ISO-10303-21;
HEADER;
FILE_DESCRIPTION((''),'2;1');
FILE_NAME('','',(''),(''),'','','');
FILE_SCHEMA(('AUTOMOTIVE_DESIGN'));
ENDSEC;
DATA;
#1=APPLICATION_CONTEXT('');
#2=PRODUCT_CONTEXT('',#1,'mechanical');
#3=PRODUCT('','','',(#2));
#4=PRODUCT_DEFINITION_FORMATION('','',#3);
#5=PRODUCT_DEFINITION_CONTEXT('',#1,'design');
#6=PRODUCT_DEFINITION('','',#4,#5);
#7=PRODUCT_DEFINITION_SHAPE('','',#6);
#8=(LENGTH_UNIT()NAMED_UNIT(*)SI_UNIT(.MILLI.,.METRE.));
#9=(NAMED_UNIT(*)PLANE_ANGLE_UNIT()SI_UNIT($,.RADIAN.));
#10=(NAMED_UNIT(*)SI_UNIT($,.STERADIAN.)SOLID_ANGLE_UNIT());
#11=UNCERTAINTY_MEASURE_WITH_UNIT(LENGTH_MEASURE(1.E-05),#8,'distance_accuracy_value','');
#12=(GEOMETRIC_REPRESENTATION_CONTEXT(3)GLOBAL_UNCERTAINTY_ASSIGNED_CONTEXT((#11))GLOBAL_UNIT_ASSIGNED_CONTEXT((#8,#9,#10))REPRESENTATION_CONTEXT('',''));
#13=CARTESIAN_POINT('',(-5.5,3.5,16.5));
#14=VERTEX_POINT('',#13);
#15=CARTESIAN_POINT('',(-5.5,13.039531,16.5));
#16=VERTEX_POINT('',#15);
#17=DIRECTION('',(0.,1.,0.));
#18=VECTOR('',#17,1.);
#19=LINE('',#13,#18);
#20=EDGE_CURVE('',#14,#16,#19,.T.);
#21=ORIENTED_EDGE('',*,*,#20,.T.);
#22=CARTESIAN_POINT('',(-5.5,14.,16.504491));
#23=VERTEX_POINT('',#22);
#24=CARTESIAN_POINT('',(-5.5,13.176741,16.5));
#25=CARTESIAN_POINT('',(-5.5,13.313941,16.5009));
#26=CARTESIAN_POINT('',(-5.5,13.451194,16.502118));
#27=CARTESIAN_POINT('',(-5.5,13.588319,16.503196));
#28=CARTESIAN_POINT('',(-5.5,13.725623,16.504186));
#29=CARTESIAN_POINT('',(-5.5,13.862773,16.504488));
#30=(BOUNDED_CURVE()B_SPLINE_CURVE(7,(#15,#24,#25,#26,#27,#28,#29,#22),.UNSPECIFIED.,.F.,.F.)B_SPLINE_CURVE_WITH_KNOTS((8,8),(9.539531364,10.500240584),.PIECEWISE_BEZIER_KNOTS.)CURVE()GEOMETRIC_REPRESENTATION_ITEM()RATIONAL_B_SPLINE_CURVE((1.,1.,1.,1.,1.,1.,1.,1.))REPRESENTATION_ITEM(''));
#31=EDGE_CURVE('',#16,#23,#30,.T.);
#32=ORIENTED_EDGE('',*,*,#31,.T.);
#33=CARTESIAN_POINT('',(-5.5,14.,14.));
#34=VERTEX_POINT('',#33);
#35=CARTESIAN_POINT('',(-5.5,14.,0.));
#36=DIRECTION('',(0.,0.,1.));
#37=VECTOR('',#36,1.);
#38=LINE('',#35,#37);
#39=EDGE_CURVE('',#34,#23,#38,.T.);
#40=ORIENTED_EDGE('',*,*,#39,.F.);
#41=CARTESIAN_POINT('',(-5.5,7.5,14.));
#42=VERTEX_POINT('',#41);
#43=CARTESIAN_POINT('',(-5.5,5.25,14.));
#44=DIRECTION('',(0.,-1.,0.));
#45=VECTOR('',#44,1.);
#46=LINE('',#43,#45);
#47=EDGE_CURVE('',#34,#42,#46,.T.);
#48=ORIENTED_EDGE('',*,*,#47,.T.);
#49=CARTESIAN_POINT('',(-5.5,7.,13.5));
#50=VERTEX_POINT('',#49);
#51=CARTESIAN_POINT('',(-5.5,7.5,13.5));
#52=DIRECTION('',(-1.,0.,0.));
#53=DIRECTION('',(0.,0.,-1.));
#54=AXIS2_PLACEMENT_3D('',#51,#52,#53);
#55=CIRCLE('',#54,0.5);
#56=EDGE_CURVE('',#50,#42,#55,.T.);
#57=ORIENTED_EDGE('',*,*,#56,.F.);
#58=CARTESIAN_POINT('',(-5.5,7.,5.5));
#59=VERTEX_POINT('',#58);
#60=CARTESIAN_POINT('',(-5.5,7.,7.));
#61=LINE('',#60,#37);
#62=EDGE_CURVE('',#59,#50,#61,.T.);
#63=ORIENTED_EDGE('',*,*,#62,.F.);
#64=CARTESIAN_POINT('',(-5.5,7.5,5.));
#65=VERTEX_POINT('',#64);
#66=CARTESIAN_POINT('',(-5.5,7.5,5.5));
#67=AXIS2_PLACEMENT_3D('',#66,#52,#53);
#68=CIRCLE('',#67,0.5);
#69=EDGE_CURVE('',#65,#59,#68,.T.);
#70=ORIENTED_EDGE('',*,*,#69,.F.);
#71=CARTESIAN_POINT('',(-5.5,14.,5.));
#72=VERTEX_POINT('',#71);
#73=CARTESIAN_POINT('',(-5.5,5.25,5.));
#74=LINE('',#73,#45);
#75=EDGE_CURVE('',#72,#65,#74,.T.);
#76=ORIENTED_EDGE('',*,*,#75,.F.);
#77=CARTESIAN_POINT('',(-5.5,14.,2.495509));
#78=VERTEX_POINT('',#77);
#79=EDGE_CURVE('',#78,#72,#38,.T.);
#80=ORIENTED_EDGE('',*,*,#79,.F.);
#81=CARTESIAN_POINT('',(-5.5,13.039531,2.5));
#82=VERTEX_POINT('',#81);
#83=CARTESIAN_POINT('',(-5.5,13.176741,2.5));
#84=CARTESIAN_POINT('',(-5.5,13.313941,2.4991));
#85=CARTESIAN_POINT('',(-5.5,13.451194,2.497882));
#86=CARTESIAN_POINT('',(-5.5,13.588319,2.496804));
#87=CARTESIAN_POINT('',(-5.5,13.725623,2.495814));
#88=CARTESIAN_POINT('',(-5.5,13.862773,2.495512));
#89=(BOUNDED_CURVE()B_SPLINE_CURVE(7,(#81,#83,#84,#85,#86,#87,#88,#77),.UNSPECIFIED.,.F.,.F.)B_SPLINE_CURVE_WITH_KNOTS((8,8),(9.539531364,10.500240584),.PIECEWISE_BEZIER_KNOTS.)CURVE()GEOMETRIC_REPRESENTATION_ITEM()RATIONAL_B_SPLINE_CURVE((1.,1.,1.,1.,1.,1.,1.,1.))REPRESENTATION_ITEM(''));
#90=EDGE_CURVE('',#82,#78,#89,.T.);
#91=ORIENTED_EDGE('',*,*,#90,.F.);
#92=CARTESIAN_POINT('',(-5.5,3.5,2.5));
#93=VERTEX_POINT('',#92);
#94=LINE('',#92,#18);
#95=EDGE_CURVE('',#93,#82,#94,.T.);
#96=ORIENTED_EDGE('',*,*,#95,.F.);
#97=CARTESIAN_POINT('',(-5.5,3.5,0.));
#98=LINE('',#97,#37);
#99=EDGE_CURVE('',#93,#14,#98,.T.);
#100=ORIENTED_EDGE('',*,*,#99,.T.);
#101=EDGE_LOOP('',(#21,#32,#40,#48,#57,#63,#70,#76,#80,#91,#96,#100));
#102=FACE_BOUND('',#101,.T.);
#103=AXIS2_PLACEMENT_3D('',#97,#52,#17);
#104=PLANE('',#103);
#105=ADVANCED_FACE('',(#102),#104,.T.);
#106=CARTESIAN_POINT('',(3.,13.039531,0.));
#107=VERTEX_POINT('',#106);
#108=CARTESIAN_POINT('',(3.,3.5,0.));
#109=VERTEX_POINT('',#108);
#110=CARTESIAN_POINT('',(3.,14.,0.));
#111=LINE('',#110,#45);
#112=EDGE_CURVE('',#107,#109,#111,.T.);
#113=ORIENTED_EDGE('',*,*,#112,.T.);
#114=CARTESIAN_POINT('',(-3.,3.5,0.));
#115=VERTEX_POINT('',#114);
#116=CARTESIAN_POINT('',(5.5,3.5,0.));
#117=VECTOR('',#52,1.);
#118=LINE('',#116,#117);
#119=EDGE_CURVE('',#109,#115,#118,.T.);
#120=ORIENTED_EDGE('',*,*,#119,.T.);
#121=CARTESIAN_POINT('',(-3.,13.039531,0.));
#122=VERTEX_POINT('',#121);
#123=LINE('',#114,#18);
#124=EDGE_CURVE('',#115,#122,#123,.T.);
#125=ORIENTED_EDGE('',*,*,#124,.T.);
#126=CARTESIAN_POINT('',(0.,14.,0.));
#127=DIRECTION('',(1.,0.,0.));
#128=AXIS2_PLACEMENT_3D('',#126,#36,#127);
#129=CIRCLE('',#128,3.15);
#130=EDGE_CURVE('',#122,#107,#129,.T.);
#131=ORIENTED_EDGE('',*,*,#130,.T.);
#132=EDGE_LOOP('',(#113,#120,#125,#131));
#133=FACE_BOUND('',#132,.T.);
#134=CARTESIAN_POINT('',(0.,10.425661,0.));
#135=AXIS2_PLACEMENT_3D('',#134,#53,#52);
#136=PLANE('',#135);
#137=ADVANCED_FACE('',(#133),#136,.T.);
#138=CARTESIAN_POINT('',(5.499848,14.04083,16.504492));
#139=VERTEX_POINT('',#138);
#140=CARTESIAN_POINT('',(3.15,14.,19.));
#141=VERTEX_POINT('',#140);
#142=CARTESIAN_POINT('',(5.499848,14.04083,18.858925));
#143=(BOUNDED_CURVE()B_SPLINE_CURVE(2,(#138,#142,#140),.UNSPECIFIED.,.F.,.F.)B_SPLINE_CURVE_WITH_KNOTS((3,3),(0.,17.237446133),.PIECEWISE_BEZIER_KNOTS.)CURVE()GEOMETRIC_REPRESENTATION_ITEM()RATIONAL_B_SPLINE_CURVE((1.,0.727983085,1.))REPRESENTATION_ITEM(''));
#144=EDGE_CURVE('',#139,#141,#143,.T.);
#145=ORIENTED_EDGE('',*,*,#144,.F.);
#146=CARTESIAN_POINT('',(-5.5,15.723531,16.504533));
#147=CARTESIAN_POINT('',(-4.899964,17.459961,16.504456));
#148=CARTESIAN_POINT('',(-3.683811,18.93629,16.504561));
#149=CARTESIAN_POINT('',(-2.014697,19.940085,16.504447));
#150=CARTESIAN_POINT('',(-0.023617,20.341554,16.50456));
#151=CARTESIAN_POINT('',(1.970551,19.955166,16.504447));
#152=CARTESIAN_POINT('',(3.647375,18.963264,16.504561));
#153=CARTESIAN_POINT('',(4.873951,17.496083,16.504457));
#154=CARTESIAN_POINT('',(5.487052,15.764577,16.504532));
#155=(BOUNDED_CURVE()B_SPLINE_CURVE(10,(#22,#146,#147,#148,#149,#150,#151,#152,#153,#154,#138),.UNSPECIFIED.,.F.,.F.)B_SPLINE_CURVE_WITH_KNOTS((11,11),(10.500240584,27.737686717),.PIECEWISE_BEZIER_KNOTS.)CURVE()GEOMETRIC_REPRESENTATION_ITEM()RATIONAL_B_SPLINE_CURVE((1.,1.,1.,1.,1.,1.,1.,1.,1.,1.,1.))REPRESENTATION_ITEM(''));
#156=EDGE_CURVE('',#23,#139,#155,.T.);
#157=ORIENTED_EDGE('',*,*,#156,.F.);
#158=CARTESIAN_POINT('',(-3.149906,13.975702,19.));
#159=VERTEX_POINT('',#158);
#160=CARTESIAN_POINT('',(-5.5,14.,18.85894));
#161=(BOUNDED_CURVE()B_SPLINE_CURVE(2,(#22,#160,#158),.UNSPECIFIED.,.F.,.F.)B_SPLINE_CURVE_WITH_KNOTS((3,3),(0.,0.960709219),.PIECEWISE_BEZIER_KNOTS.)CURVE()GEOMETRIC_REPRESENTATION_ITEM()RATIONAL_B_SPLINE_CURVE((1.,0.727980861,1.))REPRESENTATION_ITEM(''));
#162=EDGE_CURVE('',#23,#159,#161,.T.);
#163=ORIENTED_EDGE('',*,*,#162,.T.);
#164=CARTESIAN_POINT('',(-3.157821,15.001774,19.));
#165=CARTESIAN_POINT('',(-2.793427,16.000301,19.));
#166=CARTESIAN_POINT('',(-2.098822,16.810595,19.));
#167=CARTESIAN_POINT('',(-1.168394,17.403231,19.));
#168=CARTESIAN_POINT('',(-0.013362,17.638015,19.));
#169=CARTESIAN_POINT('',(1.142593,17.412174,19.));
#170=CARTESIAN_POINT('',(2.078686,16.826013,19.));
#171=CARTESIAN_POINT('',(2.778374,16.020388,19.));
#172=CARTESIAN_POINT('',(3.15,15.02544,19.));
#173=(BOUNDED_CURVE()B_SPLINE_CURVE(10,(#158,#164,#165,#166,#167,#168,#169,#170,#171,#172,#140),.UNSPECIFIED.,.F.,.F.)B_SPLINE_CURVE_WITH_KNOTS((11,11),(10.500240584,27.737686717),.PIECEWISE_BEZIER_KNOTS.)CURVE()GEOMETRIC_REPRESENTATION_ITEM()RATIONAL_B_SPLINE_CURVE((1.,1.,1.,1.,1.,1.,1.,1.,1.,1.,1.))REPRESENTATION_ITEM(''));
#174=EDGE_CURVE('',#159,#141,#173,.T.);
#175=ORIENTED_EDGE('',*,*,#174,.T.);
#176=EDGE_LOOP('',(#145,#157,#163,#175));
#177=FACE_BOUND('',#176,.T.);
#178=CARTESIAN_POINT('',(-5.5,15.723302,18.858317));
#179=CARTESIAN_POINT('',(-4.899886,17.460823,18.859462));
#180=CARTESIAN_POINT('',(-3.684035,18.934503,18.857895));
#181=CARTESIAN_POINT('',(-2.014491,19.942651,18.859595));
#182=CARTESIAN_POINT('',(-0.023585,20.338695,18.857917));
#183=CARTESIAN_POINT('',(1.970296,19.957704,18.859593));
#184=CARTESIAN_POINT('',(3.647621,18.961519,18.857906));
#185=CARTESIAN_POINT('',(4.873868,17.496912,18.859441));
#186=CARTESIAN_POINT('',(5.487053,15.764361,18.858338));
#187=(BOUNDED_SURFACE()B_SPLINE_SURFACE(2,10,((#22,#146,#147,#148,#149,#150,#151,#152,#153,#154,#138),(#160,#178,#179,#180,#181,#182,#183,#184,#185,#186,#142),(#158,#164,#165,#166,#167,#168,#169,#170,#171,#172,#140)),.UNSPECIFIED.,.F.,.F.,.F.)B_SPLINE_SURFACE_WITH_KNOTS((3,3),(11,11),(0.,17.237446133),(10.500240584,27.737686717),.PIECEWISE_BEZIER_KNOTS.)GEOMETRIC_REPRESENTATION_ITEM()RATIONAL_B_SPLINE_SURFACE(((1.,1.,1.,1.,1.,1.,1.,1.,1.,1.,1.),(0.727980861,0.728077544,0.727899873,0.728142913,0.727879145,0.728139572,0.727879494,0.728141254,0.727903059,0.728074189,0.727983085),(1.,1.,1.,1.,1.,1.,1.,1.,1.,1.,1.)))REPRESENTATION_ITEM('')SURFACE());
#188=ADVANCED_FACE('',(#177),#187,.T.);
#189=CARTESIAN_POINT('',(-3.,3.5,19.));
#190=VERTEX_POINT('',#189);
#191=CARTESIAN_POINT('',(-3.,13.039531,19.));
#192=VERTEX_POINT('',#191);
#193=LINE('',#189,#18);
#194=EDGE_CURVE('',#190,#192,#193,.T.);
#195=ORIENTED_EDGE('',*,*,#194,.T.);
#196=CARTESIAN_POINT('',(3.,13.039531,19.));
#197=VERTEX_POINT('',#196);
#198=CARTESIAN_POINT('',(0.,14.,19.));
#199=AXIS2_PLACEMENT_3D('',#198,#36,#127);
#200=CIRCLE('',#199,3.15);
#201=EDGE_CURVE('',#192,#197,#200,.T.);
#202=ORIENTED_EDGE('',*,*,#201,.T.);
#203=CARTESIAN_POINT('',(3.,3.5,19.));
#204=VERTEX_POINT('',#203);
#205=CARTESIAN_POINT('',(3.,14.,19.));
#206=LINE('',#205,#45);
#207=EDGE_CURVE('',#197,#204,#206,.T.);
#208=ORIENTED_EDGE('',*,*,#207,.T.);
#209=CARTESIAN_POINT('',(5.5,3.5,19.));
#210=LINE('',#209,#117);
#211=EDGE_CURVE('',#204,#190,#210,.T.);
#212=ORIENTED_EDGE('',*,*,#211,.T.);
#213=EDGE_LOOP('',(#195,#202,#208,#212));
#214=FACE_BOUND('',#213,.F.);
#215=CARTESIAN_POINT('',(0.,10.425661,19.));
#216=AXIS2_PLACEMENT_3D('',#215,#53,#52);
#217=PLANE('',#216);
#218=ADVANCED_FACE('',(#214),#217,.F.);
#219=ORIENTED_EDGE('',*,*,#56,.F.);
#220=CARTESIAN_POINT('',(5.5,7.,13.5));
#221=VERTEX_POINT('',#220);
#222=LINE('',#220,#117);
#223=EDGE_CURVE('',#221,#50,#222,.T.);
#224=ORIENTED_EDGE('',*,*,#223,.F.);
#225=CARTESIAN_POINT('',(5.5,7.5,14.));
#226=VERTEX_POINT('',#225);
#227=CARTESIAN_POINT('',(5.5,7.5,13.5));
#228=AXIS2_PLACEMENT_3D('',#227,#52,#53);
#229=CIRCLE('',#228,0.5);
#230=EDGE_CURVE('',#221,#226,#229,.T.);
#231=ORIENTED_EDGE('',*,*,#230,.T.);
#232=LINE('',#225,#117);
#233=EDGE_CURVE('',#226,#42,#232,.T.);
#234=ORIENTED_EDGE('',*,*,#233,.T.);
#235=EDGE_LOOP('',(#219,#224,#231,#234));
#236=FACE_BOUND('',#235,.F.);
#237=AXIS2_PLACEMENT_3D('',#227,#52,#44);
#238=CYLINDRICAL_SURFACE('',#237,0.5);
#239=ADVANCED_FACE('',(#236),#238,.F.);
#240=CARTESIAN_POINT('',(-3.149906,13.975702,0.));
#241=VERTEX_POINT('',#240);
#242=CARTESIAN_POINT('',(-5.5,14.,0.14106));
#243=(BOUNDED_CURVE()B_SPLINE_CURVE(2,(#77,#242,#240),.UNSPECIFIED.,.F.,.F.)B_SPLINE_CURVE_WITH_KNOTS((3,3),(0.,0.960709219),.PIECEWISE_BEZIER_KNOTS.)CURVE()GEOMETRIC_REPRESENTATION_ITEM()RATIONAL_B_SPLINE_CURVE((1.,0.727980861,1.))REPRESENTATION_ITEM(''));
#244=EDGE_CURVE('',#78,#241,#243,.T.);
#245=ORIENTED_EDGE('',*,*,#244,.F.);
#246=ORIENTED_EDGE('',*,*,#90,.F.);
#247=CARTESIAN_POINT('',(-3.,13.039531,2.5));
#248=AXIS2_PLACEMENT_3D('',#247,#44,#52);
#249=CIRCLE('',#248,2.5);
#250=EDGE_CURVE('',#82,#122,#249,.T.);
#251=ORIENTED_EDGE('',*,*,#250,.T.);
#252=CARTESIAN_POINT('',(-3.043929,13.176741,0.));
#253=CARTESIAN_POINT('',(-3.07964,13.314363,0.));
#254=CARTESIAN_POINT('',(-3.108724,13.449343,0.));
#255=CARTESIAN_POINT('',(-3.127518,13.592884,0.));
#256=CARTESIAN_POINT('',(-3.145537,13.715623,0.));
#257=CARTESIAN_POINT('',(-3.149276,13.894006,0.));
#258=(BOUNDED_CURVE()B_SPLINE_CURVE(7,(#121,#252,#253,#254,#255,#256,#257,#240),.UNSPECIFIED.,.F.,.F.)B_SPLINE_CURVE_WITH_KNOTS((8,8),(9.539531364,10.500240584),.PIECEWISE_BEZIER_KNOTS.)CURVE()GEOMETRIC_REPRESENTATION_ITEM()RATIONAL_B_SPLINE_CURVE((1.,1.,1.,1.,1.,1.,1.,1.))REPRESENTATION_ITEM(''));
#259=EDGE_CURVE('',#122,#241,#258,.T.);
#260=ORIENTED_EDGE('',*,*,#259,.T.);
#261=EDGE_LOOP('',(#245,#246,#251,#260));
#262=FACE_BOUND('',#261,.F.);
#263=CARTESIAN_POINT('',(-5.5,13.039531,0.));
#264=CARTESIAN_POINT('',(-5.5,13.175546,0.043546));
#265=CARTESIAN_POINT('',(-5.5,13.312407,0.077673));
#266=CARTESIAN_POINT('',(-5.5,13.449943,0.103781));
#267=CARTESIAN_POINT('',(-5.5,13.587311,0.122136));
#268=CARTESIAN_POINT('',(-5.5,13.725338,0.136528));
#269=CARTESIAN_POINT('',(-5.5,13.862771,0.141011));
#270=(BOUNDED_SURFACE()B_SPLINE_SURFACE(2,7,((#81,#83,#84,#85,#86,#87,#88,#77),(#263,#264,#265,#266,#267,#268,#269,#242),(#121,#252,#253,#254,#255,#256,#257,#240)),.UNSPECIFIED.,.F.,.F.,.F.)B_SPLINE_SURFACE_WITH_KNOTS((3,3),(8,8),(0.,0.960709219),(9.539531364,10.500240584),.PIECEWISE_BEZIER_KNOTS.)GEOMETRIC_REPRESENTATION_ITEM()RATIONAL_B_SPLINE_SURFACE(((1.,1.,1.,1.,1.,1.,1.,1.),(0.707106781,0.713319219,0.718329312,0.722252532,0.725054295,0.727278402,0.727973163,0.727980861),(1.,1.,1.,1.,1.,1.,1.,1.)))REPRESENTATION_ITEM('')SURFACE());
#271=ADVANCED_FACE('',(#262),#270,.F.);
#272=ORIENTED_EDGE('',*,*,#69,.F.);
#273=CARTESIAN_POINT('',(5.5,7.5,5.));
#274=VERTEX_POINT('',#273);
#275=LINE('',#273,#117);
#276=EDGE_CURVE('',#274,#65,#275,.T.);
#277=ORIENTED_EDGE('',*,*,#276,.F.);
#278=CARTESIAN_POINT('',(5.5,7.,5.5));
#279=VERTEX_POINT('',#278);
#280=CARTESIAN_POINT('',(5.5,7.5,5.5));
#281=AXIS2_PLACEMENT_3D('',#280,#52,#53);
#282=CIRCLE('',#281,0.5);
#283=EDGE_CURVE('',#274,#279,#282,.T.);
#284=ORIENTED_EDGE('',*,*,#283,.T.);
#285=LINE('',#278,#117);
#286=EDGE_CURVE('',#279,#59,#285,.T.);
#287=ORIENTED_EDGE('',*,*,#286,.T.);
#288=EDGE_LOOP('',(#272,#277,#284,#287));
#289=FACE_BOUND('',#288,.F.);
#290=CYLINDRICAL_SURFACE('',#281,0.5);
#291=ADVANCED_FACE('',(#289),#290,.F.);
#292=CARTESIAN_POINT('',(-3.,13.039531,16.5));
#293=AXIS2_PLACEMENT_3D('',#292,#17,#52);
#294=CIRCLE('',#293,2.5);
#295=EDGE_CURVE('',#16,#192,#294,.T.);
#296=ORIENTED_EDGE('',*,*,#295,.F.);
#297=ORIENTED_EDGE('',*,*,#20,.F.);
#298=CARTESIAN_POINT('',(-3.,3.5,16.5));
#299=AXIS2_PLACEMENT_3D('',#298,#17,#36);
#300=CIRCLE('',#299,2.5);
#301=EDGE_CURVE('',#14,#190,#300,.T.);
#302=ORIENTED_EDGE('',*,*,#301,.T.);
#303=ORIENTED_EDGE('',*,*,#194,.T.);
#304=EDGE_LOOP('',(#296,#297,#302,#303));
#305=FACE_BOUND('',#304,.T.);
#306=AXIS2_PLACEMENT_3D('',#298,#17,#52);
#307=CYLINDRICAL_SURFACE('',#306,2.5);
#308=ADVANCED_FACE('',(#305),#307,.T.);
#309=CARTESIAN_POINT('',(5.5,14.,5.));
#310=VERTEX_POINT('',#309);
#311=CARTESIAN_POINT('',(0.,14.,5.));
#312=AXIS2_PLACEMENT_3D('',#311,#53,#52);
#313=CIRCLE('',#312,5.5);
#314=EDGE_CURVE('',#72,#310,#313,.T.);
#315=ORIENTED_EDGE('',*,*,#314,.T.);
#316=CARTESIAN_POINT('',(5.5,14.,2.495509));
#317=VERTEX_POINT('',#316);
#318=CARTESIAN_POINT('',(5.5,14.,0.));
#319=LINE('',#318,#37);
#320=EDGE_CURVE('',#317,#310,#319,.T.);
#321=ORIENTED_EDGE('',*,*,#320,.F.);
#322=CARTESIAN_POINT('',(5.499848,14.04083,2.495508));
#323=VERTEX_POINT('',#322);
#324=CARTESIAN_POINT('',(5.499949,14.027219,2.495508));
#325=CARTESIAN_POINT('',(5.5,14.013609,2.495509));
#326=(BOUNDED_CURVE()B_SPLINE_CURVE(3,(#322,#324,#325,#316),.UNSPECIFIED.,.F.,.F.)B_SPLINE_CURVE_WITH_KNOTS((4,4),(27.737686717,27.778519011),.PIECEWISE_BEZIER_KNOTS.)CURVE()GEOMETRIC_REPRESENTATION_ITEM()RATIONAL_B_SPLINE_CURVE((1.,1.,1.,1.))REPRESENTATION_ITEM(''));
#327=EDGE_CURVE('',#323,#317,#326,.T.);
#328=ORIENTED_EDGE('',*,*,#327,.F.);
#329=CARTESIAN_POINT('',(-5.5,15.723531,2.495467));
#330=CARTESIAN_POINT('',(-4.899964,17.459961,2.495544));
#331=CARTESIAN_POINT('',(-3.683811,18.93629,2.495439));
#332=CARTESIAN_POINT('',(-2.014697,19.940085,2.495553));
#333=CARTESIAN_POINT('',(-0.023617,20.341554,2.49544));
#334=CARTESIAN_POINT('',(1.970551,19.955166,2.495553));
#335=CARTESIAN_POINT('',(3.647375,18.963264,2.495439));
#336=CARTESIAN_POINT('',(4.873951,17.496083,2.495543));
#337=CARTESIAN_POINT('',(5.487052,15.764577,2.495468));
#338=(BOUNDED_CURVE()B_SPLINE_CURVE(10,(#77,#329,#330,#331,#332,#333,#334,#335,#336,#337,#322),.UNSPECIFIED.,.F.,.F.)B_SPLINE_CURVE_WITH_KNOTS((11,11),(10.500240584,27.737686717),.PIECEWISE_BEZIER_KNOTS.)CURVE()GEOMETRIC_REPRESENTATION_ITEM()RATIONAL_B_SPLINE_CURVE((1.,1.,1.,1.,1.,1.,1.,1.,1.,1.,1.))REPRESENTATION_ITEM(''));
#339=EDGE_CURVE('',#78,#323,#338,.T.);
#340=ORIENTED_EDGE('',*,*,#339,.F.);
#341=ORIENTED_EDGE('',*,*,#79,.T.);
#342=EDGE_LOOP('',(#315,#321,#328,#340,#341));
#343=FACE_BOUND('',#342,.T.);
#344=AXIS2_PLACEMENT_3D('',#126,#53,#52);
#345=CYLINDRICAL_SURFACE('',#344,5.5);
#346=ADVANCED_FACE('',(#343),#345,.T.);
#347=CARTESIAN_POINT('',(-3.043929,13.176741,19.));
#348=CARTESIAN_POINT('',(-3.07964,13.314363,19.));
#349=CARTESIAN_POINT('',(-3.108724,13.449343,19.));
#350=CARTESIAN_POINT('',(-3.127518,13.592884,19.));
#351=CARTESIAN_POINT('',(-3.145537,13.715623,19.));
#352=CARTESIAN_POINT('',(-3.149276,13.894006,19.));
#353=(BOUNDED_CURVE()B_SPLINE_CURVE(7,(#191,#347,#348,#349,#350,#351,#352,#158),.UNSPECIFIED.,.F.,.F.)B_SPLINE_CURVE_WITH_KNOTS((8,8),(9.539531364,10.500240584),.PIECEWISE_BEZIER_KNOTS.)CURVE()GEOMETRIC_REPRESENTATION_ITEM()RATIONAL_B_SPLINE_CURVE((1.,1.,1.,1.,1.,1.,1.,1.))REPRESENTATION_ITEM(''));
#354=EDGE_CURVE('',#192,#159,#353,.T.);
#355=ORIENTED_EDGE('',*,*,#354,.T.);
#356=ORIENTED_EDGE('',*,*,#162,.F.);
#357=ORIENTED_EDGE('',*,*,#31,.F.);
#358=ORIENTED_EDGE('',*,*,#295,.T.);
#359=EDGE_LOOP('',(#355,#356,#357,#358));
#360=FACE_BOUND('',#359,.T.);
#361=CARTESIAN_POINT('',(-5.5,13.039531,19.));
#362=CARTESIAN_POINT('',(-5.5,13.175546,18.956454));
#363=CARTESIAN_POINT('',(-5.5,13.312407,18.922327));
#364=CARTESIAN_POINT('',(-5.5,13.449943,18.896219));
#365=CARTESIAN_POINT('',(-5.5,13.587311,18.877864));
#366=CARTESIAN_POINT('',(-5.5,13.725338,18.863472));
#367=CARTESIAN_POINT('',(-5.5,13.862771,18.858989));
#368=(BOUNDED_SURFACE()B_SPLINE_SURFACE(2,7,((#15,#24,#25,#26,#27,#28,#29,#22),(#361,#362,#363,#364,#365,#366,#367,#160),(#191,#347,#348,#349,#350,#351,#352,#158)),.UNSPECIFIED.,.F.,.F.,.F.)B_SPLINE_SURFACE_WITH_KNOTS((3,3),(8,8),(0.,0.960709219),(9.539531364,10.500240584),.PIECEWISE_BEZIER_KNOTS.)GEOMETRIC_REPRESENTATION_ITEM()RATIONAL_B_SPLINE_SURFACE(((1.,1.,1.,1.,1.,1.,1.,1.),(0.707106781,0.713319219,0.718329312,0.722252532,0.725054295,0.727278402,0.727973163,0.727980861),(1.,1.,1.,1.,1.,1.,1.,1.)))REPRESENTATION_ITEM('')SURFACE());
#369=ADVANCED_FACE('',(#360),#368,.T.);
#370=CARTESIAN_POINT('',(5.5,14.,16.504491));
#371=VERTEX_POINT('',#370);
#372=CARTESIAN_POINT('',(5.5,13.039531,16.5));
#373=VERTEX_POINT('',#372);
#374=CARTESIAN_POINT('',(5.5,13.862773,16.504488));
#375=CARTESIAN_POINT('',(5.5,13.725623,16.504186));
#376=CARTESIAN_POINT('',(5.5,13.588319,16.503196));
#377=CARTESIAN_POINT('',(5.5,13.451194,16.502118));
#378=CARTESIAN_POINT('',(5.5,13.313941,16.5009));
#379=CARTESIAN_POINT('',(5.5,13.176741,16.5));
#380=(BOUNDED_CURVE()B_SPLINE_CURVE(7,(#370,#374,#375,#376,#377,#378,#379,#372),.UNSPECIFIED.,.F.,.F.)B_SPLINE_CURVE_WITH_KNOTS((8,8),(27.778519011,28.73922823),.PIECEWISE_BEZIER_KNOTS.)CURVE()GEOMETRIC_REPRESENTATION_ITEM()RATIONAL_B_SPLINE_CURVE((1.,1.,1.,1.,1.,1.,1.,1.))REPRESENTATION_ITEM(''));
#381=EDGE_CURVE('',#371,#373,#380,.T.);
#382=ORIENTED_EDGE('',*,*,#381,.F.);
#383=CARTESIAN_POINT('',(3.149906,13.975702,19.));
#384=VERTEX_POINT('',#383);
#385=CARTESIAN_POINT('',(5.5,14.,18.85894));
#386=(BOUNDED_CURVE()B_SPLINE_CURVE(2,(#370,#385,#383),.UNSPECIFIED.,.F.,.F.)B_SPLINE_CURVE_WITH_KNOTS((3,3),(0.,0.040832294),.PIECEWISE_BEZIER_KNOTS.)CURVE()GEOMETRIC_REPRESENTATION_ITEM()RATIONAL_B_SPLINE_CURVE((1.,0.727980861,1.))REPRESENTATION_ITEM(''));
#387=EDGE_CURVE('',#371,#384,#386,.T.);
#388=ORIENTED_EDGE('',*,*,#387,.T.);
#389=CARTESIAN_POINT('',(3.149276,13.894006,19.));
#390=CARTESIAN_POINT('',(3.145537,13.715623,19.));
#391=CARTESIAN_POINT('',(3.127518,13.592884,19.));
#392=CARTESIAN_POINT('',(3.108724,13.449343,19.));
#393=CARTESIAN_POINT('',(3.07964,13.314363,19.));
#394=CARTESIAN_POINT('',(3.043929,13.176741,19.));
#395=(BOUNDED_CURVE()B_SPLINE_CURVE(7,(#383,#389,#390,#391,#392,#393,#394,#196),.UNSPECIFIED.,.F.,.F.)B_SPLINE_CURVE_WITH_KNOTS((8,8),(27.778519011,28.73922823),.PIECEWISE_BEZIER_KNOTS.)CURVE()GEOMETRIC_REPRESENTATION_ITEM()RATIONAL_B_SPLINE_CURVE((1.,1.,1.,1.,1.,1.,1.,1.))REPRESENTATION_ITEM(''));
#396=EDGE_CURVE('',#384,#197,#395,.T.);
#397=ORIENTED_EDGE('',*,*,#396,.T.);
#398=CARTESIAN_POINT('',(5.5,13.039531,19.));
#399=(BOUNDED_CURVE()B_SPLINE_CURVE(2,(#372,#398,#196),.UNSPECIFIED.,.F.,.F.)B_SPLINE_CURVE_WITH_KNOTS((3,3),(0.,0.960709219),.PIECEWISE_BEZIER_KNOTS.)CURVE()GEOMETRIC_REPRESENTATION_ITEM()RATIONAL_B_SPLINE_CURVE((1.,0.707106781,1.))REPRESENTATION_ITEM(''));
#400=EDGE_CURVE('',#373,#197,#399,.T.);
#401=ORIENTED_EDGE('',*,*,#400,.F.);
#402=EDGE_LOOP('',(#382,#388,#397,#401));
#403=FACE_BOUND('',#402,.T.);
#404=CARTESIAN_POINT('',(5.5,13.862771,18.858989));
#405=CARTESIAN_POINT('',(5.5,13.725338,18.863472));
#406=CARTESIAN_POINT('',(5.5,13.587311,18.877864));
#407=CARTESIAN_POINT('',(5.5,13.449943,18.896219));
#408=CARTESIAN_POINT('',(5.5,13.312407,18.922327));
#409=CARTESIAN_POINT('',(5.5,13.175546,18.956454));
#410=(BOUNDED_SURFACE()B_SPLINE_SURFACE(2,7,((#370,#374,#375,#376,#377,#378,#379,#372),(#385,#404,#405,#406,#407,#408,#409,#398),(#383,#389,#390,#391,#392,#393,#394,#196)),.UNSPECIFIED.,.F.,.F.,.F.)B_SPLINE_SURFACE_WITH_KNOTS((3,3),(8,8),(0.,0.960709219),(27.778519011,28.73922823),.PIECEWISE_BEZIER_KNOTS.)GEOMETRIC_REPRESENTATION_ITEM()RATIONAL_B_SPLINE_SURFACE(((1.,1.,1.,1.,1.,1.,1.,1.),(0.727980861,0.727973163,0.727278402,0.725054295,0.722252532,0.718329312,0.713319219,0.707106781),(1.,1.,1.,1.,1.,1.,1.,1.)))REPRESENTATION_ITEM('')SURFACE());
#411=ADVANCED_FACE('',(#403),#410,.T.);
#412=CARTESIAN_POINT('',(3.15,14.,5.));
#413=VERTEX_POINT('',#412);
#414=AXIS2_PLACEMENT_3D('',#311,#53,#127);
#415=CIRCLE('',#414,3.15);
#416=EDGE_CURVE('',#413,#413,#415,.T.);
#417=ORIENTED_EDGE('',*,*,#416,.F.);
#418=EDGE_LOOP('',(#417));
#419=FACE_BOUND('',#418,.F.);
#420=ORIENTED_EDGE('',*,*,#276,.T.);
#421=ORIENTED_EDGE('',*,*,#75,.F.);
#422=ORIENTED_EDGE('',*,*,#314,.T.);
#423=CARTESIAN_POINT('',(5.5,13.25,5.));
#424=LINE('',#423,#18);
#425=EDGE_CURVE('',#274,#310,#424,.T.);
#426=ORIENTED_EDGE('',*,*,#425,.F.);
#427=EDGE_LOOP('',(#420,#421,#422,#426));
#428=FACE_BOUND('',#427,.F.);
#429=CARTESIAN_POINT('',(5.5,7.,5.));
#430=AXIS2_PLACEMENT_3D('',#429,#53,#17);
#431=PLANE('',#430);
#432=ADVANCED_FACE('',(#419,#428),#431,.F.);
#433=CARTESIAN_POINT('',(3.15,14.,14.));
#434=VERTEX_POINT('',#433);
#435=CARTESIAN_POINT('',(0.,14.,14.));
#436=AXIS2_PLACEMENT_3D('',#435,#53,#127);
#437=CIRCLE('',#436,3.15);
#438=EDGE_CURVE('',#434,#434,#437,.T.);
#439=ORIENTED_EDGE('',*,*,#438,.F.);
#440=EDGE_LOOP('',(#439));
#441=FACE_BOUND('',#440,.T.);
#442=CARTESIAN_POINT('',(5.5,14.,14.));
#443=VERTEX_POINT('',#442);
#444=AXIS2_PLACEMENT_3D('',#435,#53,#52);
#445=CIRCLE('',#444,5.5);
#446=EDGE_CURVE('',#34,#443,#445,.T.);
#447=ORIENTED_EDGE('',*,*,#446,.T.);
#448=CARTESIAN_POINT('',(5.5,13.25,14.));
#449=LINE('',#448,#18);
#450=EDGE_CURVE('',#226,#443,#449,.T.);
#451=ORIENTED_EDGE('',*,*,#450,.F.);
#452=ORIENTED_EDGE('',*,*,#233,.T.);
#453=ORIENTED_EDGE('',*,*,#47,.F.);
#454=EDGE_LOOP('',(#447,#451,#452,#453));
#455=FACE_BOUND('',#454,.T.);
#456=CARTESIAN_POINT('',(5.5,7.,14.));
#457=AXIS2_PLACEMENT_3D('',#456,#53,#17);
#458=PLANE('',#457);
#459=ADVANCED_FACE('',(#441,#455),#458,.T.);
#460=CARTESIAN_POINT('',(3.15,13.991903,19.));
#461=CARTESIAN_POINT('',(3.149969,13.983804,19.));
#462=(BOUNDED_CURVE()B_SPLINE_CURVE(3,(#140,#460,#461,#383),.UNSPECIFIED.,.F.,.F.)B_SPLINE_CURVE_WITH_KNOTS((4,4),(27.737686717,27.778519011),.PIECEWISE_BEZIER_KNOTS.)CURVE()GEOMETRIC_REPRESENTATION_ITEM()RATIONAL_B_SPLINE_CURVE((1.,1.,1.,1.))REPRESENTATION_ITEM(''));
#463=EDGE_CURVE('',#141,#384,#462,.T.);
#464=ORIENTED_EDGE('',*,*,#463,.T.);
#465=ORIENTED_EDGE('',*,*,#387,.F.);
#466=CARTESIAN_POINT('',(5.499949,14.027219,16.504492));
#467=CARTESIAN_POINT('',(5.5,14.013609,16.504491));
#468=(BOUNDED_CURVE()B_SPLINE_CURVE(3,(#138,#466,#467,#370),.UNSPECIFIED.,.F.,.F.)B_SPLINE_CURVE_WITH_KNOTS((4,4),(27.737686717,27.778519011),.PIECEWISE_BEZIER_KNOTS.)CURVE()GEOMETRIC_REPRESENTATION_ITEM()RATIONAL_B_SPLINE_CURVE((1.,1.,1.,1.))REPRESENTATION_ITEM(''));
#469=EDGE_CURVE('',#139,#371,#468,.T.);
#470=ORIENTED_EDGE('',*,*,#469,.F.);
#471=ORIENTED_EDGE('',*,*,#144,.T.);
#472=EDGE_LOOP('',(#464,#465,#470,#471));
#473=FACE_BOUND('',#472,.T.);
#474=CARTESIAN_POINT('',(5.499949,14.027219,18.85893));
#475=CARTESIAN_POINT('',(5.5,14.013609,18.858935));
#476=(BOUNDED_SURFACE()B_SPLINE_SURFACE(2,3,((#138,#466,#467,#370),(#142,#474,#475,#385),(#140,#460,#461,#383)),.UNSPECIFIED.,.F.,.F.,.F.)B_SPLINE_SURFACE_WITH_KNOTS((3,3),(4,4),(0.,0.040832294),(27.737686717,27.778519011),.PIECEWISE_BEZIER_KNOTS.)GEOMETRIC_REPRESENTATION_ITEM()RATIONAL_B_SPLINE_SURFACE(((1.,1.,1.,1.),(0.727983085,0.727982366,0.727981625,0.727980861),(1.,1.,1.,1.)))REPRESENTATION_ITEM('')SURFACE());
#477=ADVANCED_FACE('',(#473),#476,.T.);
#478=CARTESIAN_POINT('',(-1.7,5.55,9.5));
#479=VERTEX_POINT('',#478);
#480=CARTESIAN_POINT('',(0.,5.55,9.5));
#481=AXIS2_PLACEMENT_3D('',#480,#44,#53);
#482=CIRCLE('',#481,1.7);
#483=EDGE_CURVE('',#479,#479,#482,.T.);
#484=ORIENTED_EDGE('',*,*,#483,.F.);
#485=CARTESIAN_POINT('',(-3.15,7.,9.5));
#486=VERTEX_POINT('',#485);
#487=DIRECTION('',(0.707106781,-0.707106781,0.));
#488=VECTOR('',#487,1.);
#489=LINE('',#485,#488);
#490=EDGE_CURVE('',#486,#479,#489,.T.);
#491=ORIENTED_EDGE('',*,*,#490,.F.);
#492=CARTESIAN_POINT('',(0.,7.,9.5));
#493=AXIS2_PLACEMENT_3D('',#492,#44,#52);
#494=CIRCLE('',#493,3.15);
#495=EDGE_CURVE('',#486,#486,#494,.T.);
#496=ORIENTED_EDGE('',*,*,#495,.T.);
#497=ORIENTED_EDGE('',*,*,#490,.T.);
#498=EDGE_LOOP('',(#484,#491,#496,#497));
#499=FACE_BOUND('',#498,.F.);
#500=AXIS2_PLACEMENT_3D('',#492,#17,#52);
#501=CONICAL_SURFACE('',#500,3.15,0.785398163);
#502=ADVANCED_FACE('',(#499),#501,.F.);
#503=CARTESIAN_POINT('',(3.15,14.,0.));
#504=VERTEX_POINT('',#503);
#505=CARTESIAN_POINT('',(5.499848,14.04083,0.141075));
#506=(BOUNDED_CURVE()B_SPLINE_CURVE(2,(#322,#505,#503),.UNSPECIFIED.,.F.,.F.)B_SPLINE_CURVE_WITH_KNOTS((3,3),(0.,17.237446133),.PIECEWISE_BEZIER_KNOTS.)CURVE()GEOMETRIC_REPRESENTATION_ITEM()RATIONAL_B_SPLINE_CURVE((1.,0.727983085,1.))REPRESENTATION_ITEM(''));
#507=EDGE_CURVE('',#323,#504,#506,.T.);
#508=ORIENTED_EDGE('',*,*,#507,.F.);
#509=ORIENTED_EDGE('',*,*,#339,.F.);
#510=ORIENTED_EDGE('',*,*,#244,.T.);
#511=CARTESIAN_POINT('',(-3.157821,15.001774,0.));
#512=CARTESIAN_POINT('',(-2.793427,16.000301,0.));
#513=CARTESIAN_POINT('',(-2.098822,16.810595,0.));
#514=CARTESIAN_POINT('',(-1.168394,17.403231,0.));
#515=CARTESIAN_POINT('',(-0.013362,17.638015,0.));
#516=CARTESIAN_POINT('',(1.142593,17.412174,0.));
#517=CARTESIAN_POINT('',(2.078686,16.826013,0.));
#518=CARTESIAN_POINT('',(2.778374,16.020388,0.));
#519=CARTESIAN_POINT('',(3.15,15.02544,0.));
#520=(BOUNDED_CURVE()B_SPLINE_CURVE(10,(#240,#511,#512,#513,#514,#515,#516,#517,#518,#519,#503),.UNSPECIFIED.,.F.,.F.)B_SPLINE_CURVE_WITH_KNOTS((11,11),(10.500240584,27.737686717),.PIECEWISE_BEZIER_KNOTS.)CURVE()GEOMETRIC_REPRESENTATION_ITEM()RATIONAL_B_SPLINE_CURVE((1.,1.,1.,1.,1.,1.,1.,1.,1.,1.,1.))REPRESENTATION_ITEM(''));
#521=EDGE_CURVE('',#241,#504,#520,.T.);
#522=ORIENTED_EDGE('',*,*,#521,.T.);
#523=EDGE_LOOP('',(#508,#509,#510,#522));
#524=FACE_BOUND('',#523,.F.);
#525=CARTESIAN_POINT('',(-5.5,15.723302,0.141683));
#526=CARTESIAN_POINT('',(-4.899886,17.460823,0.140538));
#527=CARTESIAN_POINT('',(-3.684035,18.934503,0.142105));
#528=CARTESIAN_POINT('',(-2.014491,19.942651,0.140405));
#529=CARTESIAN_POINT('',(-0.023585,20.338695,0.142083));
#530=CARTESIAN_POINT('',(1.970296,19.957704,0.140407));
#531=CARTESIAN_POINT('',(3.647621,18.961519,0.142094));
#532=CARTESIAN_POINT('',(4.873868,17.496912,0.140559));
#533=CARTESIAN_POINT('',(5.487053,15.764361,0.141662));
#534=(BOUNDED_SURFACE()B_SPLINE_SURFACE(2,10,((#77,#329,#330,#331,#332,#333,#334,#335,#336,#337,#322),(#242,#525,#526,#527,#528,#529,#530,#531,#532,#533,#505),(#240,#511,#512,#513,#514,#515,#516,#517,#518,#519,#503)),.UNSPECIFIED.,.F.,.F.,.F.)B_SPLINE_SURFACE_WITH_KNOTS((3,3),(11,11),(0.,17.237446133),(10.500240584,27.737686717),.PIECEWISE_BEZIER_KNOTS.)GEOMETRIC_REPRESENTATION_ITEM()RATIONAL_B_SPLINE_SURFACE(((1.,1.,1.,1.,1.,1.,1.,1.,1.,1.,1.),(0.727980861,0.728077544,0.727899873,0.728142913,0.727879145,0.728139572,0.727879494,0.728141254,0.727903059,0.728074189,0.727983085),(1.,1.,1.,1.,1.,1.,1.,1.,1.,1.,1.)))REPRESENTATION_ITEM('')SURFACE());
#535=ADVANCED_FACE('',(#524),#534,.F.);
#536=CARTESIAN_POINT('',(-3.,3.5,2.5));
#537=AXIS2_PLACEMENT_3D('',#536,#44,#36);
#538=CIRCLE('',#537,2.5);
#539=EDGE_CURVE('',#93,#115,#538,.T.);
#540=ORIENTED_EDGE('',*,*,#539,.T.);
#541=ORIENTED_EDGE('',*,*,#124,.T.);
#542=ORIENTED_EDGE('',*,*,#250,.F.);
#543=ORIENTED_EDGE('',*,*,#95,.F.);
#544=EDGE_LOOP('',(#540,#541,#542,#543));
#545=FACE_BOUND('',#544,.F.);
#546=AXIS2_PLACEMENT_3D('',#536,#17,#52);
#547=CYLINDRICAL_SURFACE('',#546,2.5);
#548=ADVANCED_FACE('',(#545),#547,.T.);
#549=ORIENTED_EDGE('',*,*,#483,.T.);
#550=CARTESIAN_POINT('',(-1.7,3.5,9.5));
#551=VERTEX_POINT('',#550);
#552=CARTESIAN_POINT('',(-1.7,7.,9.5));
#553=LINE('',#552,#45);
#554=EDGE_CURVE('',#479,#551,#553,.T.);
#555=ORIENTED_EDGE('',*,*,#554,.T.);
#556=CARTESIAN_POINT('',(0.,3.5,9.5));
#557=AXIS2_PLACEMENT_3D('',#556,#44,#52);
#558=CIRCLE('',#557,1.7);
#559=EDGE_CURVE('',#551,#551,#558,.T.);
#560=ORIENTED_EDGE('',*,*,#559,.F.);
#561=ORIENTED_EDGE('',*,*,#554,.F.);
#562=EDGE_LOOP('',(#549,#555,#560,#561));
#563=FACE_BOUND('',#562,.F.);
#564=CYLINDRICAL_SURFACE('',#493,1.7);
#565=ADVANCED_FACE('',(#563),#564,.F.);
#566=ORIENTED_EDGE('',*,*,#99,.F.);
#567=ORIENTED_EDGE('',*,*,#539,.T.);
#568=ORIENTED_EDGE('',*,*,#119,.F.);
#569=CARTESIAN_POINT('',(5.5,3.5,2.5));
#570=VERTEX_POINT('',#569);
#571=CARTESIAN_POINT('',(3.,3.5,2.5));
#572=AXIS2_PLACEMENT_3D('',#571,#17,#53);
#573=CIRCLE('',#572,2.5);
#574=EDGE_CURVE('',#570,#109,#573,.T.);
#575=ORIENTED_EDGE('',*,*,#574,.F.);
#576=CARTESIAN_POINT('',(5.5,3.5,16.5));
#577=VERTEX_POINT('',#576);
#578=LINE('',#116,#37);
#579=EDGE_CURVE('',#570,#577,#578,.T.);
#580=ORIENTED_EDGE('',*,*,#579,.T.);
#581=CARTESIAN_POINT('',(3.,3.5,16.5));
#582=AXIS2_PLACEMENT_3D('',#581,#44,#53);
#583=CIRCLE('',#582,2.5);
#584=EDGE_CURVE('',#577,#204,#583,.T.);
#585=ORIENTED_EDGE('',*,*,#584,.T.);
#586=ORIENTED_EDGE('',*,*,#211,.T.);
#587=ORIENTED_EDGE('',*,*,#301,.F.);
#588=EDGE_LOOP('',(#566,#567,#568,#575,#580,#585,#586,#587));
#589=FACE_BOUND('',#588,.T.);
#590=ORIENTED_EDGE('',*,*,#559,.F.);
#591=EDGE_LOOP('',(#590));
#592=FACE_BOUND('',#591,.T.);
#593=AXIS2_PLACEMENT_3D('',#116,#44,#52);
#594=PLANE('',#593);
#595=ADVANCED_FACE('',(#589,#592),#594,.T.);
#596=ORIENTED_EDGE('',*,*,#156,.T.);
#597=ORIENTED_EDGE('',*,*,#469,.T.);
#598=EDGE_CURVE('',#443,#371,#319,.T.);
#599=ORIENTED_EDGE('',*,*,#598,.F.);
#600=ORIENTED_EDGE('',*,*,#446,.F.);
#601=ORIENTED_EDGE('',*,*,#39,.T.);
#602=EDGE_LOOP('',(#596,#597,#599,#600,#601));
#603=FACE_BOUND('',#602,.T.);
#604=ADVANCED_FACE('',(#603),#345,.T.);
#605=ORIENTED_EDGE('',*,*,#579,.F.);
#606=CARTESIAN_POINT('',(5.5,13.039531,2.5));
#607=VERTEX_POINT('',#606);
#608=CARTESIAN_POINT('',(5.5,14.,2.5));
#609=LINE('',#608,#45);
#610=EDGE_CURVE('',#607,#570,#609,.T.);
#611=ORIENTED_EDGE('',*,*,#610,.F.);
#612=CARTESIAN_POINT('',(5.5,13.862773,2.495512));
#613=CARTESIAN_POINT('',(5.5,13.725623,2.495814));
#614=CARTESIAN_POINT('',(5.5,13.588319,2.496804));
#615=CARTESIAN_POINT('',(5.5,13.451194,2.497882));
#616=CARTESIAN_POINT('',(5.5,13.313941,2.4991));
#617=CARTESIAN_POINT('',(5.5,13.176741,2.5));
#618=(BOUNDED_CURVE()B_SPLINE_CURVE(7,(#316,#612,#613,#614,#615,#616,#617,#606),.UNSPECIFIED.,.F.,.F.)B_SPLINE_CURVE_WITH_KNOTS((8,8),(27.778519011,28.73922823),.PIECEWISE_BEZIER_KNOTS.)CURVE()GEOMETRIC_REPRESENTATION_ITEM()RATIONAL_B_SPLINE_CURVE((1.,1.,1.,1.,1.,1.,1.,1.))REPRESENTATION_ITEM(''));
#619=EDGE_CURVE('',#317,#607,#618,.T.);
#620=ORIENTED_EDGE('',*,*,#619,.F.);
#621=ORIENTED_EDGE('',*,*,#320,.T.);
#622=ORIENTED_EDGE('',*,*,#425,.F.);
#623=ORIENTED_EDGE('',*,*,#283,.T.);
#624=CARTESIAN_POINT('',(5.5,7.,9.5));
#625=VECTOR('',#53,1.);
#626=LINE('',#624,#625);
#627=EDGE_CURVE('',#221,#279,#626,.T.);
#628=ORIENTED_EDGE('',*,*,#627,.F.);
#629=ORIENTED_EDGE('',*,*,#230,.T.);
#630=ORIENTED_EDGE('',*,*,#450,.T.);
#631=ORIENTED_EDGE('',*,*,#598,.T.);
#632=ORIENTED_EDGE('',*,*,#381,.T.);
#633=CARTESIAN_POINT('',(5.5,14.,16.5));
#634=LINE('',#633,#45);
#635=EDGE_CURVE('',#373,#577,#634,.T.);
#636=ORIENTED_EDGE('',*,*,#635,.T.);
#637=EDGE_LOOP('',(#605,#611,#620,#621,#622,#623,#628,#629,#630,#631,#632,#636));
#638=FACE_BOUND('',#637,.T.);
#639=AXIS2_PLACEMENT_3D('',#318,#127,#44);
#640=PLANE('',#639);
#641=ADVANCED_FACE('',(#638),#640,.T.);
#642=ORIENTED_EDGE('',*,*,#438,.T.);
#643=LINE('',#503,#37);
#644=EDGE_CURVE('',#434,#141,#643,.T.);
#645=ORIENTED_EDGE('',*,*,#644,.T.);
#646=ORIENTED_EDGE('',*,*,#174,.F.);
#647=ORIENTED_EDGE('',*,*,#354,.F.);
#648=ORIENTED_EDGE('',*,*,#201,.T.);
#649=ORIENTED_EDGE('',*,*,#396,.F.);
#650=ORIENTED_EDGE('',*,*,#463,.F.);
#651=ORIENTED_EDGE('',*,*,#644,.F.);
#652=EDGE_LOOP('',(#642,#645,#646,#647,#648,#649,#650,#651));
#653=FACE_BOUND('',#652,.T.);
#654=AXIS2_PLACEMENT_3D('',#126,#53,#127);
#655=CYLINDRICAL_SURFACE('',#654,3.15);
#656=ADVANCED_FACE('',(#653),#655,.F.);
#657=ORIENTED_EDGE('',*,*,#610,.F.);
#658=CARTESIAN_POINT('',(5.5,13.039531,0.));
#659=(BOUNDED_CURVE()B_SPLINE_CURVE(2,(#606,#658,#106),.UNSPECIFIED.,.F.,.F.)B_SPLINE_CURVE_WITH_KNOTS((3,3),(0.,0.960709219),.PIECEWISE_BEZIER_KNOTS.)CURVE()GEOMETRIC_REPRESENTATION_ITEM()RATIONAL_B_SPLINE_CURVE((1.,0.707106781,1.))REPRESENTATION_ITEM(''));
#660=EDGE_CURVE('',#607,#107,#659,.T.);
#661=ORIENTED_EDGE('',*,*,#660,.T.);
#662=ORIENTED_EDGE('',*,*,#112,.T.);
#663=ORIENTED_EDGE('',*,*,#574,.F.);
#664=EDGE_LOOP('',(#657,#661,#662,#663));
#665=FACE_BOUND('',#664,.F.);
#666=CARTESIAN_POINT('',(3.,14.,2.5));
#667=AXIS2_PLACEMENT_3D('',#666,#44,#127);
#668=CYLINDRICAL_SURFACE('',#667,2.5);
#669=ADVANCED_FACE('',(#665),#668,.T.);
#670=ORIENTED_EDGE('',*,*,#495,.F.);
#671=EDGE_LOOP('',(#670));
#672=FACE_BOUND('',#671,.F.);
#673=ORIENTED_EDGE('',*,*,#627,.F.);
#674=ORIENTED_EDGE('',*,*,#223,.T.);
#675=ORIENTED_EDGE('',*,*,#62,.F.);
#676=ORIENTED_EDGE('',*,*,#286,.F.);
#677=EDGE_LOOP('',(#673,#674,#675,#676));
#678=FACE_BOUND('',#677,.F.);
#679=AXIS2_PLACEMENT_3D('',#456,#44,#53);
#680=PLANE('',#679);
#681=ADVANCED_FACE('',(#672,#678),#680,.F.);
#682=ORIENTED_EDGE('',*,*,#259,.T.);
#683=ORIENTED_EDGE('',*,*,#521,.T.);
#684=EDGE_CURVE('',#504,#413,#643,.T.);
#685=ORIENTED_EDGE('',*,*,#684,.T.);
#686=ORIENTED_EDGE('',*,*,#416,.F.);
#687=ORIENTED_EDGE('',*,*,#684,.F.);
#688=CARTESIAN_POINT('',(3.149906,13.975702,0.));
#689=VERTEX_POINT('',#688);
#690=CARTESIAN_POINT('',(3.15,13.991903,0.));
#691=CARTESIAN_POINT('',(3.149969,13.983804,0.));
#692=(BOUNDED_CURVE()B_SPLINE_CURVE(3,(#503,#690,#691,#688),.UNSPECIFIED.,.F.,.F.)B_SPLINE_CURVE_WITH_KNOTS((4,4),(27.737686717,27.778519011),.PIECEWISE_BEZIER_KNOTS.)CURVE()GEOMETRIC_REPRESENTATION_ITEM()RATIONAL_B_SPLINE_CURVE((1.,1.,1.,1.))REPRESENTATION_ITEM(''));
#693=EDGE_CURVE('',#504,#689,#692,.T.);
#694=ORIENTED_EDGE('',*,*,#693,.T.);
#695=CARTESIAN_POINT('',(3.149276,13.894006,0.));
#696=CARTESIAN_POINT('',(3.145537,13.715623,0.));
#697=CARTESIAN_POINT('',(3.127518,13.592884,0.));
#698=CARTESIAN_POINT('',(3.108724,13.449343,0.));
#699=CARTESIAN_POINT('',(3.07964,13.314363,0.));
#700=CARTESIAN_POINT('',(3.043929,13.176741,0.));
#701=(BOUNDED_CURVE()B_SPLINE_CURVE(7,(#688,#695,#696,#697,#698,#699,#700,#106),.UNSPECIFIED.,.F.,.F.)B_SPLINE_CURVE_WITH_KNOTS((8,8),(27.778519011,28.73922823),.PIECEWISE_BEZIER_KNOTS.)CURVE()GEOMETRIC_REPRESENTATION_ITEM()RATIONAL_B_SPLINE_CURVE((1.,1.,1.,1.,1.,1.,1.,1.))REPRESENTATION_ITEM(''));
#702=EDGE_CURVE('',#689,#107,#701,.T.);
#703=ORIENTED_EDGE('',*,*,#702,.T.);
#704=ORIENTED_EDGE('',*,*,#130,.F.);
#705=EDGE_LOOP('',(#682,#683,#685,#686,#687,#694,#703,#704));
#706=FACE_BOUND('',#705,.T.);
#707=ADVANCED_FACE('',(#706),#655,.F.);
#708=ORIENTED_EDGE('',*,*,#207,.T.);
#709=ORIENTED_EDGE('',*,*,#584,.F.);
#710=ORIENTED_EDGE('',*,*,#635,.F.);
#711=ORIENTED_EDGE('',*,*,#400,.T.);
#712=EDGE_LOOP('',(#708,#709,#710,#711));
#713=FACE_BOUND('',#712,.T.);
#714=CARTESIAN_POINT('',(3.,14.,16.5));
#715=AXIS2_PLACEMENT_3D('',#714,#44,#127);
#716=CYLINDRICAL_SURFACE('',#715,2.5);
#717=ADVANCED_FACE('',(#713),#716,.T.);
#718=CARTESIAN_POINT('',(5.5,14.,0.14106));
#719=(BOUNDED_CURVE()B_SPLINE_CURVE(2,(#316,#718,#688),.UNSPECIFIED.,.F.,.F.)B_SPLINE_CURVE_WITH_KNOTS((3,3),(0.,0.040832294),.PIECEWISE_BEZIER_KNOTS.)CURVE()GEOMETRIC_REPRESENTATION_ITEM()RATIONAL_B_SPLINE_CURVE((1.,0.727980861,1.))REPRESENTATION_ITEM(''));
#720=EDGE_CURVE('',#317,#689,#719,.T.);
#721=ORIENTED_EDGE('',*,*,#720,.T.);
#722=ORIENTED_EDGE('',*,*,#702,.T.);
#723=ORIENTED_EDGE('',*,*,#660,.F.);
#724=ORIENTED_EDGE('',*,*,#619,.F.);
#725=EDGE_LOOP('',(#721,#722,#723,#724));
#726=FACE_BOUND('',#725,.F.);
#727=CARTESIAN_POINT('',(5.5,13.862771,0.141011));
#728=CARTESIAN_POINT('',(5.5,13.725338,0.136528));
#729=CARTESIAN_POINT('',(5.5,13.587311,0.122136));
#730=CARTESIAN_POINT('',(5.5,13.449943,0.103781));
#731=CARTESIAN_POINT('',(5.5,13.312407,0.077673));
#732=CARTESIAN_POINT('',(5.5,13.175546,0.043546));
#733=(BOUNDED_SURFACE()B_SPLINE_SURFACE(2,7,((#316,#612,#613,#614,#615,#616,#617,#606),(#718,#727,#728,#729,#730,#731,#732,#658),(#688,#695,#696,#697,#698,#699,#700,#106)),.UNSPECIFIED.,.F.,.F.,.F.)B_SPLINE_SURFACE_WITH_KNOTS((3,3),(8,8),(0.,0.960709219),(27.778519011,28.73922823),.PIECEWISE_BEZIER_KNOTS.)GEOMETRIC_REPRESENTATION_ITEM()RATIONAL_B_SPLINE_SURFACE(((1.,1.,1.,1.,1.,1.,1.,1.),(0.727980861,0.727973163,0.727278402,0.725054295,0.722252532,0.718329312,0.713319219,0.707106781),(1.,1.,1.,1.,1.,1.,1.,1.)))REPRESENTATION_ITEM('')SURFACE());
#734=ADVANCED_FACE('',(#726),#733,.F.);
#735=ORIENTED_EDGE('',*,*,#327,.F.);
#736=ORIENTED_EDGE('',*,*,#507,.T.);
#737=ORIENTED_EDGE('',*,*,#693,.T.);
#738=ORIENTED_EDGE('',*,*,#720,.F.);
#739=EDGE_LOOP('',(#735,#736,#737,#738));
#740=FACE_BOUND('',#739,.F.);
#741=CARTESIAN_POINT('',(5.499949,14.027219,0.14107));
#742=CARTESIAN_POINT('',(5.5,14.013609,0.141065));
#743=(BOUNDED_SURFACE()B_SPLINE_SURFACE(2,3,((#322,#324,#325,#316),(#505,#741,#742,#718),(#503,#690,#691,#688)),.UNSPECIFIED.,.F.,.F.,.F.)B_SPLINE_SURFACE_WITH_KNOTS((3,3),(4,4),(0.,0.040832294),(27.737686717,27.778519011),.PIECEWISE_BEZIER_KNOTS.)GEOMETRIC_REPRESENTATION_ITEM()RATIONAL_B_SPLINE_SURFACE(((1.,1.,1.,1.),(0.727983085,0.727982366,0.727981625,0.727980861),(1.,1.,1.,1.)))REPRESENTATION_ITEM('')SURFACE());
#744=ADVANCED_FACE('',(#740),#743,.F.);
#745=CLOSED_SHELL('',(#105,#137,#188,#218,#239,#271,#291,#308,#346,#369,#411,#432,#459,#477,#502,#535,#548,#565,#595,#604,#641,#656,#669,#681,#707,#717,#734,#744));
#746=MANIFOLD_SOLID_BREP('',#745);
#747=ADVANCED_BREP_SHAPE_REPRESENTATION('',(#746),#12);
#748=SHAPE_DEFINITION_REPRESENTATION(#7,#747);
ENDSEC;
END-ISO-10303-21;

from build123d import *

# Parameters (mm, degrees)
ESQUISSE1_R                                    = 3.15
BOSS_EXTRU_1_DEPTH                             = 19
ESQUISSE2_W                                    = 9
ESQUISSE2_H                                    = 12.5
ENL_V_MAT_EXTRU_1_DEPTH                        = 15
FRAISAGE_POUR_VIS_T_TE_FRAIS_E_M31_D           = 3.4
FRAISAGE_POUR_VIS_T_TE_FRAIS_E_M31_CSINK_D     = 6.3
FRAISAGE_POUR_VIS_T_TE_FRAIS_E_M31_CSINK_ANGLE = 90
CONG_1_R                                       = 2.5
CONG_2_R                                       = 0.5


with BuildPart() as part:
    # Esquisse1 → Boss.-Extru.1 (new body)
    with BuildSketch(Plane.XY):
        with BuildLine():
            Line((-5.5, 3.5), (-5.5, 14))
            ThreePointArc((-5.5, 14), (0, 19.5), (5.5, 14))
            Line((5.5, 14), (5.5, 3.5))
            Line((5.5, 3.5), (-5.5, 3.5))
        make_face()
        with Locations((0, 14)):
            Circle(ESQUISSE1_R, mode=Mode.SUBTRACT)
    extrude(amount=BOSS_EXTRU_1_DEPTH)

    # Esquisse2 → Enlèv. mat.-Extru.1 (cut)
    with BuildSketch(Plane(origin=(5.5, 0, 0), x_dir=(0, 0, -1), z_dir=(1, 0, 0))):
        with Locations((-9.5, 13.25)):
            Rectangle(ESQUISSE2_W, ESQUISSE2_H)
    extrude(amount=-ENL_V_MAT_EXTRU_1_DEPTH, mode=Mode.SUBTRACT)

    # Fraisage pour vis à tête fraisée M31 (through all)
    with Locations(Plane(origin=(0, 7, 0), x_dir=(1, 0, 0), z_dir=(0, 1, 0))):
        with Locations((0, -9.5)):
            CounterSinkHole(FRAISAGE_POUR_VIS_T_TE_FRAIS_E_M31_D / 2, FRAISAGE_POUR_VIS_T_TE_FRAIS_E_M31_CSINK_D / 2, counter_sink_angle=FRAISAGE_POUR_VIS_T_TE_FRAIS_E_M31_CSINK_ANGLE)

    # Congé1
    cong_1_edges = [part.edges().sort_by_distance(p)[0] for p in [
        (5.5, 8.75, 0),
        (5.5, 8.75, 19),
        (-5.5, 8.75, 19),
        (-5.5, 8.75, 0),
    ]]
    fillet(cong_1_edges, radius=CONG_1_R)

    # Congé2
    cong_2_edges = [part.edges().sort_by_distance(p)[0] for p in [
        (0, 7, 14),
        (0, 7, 5),
    ]]
    fillet(cong_2_edges, radius=CONG_2_R)


solid = part.part
